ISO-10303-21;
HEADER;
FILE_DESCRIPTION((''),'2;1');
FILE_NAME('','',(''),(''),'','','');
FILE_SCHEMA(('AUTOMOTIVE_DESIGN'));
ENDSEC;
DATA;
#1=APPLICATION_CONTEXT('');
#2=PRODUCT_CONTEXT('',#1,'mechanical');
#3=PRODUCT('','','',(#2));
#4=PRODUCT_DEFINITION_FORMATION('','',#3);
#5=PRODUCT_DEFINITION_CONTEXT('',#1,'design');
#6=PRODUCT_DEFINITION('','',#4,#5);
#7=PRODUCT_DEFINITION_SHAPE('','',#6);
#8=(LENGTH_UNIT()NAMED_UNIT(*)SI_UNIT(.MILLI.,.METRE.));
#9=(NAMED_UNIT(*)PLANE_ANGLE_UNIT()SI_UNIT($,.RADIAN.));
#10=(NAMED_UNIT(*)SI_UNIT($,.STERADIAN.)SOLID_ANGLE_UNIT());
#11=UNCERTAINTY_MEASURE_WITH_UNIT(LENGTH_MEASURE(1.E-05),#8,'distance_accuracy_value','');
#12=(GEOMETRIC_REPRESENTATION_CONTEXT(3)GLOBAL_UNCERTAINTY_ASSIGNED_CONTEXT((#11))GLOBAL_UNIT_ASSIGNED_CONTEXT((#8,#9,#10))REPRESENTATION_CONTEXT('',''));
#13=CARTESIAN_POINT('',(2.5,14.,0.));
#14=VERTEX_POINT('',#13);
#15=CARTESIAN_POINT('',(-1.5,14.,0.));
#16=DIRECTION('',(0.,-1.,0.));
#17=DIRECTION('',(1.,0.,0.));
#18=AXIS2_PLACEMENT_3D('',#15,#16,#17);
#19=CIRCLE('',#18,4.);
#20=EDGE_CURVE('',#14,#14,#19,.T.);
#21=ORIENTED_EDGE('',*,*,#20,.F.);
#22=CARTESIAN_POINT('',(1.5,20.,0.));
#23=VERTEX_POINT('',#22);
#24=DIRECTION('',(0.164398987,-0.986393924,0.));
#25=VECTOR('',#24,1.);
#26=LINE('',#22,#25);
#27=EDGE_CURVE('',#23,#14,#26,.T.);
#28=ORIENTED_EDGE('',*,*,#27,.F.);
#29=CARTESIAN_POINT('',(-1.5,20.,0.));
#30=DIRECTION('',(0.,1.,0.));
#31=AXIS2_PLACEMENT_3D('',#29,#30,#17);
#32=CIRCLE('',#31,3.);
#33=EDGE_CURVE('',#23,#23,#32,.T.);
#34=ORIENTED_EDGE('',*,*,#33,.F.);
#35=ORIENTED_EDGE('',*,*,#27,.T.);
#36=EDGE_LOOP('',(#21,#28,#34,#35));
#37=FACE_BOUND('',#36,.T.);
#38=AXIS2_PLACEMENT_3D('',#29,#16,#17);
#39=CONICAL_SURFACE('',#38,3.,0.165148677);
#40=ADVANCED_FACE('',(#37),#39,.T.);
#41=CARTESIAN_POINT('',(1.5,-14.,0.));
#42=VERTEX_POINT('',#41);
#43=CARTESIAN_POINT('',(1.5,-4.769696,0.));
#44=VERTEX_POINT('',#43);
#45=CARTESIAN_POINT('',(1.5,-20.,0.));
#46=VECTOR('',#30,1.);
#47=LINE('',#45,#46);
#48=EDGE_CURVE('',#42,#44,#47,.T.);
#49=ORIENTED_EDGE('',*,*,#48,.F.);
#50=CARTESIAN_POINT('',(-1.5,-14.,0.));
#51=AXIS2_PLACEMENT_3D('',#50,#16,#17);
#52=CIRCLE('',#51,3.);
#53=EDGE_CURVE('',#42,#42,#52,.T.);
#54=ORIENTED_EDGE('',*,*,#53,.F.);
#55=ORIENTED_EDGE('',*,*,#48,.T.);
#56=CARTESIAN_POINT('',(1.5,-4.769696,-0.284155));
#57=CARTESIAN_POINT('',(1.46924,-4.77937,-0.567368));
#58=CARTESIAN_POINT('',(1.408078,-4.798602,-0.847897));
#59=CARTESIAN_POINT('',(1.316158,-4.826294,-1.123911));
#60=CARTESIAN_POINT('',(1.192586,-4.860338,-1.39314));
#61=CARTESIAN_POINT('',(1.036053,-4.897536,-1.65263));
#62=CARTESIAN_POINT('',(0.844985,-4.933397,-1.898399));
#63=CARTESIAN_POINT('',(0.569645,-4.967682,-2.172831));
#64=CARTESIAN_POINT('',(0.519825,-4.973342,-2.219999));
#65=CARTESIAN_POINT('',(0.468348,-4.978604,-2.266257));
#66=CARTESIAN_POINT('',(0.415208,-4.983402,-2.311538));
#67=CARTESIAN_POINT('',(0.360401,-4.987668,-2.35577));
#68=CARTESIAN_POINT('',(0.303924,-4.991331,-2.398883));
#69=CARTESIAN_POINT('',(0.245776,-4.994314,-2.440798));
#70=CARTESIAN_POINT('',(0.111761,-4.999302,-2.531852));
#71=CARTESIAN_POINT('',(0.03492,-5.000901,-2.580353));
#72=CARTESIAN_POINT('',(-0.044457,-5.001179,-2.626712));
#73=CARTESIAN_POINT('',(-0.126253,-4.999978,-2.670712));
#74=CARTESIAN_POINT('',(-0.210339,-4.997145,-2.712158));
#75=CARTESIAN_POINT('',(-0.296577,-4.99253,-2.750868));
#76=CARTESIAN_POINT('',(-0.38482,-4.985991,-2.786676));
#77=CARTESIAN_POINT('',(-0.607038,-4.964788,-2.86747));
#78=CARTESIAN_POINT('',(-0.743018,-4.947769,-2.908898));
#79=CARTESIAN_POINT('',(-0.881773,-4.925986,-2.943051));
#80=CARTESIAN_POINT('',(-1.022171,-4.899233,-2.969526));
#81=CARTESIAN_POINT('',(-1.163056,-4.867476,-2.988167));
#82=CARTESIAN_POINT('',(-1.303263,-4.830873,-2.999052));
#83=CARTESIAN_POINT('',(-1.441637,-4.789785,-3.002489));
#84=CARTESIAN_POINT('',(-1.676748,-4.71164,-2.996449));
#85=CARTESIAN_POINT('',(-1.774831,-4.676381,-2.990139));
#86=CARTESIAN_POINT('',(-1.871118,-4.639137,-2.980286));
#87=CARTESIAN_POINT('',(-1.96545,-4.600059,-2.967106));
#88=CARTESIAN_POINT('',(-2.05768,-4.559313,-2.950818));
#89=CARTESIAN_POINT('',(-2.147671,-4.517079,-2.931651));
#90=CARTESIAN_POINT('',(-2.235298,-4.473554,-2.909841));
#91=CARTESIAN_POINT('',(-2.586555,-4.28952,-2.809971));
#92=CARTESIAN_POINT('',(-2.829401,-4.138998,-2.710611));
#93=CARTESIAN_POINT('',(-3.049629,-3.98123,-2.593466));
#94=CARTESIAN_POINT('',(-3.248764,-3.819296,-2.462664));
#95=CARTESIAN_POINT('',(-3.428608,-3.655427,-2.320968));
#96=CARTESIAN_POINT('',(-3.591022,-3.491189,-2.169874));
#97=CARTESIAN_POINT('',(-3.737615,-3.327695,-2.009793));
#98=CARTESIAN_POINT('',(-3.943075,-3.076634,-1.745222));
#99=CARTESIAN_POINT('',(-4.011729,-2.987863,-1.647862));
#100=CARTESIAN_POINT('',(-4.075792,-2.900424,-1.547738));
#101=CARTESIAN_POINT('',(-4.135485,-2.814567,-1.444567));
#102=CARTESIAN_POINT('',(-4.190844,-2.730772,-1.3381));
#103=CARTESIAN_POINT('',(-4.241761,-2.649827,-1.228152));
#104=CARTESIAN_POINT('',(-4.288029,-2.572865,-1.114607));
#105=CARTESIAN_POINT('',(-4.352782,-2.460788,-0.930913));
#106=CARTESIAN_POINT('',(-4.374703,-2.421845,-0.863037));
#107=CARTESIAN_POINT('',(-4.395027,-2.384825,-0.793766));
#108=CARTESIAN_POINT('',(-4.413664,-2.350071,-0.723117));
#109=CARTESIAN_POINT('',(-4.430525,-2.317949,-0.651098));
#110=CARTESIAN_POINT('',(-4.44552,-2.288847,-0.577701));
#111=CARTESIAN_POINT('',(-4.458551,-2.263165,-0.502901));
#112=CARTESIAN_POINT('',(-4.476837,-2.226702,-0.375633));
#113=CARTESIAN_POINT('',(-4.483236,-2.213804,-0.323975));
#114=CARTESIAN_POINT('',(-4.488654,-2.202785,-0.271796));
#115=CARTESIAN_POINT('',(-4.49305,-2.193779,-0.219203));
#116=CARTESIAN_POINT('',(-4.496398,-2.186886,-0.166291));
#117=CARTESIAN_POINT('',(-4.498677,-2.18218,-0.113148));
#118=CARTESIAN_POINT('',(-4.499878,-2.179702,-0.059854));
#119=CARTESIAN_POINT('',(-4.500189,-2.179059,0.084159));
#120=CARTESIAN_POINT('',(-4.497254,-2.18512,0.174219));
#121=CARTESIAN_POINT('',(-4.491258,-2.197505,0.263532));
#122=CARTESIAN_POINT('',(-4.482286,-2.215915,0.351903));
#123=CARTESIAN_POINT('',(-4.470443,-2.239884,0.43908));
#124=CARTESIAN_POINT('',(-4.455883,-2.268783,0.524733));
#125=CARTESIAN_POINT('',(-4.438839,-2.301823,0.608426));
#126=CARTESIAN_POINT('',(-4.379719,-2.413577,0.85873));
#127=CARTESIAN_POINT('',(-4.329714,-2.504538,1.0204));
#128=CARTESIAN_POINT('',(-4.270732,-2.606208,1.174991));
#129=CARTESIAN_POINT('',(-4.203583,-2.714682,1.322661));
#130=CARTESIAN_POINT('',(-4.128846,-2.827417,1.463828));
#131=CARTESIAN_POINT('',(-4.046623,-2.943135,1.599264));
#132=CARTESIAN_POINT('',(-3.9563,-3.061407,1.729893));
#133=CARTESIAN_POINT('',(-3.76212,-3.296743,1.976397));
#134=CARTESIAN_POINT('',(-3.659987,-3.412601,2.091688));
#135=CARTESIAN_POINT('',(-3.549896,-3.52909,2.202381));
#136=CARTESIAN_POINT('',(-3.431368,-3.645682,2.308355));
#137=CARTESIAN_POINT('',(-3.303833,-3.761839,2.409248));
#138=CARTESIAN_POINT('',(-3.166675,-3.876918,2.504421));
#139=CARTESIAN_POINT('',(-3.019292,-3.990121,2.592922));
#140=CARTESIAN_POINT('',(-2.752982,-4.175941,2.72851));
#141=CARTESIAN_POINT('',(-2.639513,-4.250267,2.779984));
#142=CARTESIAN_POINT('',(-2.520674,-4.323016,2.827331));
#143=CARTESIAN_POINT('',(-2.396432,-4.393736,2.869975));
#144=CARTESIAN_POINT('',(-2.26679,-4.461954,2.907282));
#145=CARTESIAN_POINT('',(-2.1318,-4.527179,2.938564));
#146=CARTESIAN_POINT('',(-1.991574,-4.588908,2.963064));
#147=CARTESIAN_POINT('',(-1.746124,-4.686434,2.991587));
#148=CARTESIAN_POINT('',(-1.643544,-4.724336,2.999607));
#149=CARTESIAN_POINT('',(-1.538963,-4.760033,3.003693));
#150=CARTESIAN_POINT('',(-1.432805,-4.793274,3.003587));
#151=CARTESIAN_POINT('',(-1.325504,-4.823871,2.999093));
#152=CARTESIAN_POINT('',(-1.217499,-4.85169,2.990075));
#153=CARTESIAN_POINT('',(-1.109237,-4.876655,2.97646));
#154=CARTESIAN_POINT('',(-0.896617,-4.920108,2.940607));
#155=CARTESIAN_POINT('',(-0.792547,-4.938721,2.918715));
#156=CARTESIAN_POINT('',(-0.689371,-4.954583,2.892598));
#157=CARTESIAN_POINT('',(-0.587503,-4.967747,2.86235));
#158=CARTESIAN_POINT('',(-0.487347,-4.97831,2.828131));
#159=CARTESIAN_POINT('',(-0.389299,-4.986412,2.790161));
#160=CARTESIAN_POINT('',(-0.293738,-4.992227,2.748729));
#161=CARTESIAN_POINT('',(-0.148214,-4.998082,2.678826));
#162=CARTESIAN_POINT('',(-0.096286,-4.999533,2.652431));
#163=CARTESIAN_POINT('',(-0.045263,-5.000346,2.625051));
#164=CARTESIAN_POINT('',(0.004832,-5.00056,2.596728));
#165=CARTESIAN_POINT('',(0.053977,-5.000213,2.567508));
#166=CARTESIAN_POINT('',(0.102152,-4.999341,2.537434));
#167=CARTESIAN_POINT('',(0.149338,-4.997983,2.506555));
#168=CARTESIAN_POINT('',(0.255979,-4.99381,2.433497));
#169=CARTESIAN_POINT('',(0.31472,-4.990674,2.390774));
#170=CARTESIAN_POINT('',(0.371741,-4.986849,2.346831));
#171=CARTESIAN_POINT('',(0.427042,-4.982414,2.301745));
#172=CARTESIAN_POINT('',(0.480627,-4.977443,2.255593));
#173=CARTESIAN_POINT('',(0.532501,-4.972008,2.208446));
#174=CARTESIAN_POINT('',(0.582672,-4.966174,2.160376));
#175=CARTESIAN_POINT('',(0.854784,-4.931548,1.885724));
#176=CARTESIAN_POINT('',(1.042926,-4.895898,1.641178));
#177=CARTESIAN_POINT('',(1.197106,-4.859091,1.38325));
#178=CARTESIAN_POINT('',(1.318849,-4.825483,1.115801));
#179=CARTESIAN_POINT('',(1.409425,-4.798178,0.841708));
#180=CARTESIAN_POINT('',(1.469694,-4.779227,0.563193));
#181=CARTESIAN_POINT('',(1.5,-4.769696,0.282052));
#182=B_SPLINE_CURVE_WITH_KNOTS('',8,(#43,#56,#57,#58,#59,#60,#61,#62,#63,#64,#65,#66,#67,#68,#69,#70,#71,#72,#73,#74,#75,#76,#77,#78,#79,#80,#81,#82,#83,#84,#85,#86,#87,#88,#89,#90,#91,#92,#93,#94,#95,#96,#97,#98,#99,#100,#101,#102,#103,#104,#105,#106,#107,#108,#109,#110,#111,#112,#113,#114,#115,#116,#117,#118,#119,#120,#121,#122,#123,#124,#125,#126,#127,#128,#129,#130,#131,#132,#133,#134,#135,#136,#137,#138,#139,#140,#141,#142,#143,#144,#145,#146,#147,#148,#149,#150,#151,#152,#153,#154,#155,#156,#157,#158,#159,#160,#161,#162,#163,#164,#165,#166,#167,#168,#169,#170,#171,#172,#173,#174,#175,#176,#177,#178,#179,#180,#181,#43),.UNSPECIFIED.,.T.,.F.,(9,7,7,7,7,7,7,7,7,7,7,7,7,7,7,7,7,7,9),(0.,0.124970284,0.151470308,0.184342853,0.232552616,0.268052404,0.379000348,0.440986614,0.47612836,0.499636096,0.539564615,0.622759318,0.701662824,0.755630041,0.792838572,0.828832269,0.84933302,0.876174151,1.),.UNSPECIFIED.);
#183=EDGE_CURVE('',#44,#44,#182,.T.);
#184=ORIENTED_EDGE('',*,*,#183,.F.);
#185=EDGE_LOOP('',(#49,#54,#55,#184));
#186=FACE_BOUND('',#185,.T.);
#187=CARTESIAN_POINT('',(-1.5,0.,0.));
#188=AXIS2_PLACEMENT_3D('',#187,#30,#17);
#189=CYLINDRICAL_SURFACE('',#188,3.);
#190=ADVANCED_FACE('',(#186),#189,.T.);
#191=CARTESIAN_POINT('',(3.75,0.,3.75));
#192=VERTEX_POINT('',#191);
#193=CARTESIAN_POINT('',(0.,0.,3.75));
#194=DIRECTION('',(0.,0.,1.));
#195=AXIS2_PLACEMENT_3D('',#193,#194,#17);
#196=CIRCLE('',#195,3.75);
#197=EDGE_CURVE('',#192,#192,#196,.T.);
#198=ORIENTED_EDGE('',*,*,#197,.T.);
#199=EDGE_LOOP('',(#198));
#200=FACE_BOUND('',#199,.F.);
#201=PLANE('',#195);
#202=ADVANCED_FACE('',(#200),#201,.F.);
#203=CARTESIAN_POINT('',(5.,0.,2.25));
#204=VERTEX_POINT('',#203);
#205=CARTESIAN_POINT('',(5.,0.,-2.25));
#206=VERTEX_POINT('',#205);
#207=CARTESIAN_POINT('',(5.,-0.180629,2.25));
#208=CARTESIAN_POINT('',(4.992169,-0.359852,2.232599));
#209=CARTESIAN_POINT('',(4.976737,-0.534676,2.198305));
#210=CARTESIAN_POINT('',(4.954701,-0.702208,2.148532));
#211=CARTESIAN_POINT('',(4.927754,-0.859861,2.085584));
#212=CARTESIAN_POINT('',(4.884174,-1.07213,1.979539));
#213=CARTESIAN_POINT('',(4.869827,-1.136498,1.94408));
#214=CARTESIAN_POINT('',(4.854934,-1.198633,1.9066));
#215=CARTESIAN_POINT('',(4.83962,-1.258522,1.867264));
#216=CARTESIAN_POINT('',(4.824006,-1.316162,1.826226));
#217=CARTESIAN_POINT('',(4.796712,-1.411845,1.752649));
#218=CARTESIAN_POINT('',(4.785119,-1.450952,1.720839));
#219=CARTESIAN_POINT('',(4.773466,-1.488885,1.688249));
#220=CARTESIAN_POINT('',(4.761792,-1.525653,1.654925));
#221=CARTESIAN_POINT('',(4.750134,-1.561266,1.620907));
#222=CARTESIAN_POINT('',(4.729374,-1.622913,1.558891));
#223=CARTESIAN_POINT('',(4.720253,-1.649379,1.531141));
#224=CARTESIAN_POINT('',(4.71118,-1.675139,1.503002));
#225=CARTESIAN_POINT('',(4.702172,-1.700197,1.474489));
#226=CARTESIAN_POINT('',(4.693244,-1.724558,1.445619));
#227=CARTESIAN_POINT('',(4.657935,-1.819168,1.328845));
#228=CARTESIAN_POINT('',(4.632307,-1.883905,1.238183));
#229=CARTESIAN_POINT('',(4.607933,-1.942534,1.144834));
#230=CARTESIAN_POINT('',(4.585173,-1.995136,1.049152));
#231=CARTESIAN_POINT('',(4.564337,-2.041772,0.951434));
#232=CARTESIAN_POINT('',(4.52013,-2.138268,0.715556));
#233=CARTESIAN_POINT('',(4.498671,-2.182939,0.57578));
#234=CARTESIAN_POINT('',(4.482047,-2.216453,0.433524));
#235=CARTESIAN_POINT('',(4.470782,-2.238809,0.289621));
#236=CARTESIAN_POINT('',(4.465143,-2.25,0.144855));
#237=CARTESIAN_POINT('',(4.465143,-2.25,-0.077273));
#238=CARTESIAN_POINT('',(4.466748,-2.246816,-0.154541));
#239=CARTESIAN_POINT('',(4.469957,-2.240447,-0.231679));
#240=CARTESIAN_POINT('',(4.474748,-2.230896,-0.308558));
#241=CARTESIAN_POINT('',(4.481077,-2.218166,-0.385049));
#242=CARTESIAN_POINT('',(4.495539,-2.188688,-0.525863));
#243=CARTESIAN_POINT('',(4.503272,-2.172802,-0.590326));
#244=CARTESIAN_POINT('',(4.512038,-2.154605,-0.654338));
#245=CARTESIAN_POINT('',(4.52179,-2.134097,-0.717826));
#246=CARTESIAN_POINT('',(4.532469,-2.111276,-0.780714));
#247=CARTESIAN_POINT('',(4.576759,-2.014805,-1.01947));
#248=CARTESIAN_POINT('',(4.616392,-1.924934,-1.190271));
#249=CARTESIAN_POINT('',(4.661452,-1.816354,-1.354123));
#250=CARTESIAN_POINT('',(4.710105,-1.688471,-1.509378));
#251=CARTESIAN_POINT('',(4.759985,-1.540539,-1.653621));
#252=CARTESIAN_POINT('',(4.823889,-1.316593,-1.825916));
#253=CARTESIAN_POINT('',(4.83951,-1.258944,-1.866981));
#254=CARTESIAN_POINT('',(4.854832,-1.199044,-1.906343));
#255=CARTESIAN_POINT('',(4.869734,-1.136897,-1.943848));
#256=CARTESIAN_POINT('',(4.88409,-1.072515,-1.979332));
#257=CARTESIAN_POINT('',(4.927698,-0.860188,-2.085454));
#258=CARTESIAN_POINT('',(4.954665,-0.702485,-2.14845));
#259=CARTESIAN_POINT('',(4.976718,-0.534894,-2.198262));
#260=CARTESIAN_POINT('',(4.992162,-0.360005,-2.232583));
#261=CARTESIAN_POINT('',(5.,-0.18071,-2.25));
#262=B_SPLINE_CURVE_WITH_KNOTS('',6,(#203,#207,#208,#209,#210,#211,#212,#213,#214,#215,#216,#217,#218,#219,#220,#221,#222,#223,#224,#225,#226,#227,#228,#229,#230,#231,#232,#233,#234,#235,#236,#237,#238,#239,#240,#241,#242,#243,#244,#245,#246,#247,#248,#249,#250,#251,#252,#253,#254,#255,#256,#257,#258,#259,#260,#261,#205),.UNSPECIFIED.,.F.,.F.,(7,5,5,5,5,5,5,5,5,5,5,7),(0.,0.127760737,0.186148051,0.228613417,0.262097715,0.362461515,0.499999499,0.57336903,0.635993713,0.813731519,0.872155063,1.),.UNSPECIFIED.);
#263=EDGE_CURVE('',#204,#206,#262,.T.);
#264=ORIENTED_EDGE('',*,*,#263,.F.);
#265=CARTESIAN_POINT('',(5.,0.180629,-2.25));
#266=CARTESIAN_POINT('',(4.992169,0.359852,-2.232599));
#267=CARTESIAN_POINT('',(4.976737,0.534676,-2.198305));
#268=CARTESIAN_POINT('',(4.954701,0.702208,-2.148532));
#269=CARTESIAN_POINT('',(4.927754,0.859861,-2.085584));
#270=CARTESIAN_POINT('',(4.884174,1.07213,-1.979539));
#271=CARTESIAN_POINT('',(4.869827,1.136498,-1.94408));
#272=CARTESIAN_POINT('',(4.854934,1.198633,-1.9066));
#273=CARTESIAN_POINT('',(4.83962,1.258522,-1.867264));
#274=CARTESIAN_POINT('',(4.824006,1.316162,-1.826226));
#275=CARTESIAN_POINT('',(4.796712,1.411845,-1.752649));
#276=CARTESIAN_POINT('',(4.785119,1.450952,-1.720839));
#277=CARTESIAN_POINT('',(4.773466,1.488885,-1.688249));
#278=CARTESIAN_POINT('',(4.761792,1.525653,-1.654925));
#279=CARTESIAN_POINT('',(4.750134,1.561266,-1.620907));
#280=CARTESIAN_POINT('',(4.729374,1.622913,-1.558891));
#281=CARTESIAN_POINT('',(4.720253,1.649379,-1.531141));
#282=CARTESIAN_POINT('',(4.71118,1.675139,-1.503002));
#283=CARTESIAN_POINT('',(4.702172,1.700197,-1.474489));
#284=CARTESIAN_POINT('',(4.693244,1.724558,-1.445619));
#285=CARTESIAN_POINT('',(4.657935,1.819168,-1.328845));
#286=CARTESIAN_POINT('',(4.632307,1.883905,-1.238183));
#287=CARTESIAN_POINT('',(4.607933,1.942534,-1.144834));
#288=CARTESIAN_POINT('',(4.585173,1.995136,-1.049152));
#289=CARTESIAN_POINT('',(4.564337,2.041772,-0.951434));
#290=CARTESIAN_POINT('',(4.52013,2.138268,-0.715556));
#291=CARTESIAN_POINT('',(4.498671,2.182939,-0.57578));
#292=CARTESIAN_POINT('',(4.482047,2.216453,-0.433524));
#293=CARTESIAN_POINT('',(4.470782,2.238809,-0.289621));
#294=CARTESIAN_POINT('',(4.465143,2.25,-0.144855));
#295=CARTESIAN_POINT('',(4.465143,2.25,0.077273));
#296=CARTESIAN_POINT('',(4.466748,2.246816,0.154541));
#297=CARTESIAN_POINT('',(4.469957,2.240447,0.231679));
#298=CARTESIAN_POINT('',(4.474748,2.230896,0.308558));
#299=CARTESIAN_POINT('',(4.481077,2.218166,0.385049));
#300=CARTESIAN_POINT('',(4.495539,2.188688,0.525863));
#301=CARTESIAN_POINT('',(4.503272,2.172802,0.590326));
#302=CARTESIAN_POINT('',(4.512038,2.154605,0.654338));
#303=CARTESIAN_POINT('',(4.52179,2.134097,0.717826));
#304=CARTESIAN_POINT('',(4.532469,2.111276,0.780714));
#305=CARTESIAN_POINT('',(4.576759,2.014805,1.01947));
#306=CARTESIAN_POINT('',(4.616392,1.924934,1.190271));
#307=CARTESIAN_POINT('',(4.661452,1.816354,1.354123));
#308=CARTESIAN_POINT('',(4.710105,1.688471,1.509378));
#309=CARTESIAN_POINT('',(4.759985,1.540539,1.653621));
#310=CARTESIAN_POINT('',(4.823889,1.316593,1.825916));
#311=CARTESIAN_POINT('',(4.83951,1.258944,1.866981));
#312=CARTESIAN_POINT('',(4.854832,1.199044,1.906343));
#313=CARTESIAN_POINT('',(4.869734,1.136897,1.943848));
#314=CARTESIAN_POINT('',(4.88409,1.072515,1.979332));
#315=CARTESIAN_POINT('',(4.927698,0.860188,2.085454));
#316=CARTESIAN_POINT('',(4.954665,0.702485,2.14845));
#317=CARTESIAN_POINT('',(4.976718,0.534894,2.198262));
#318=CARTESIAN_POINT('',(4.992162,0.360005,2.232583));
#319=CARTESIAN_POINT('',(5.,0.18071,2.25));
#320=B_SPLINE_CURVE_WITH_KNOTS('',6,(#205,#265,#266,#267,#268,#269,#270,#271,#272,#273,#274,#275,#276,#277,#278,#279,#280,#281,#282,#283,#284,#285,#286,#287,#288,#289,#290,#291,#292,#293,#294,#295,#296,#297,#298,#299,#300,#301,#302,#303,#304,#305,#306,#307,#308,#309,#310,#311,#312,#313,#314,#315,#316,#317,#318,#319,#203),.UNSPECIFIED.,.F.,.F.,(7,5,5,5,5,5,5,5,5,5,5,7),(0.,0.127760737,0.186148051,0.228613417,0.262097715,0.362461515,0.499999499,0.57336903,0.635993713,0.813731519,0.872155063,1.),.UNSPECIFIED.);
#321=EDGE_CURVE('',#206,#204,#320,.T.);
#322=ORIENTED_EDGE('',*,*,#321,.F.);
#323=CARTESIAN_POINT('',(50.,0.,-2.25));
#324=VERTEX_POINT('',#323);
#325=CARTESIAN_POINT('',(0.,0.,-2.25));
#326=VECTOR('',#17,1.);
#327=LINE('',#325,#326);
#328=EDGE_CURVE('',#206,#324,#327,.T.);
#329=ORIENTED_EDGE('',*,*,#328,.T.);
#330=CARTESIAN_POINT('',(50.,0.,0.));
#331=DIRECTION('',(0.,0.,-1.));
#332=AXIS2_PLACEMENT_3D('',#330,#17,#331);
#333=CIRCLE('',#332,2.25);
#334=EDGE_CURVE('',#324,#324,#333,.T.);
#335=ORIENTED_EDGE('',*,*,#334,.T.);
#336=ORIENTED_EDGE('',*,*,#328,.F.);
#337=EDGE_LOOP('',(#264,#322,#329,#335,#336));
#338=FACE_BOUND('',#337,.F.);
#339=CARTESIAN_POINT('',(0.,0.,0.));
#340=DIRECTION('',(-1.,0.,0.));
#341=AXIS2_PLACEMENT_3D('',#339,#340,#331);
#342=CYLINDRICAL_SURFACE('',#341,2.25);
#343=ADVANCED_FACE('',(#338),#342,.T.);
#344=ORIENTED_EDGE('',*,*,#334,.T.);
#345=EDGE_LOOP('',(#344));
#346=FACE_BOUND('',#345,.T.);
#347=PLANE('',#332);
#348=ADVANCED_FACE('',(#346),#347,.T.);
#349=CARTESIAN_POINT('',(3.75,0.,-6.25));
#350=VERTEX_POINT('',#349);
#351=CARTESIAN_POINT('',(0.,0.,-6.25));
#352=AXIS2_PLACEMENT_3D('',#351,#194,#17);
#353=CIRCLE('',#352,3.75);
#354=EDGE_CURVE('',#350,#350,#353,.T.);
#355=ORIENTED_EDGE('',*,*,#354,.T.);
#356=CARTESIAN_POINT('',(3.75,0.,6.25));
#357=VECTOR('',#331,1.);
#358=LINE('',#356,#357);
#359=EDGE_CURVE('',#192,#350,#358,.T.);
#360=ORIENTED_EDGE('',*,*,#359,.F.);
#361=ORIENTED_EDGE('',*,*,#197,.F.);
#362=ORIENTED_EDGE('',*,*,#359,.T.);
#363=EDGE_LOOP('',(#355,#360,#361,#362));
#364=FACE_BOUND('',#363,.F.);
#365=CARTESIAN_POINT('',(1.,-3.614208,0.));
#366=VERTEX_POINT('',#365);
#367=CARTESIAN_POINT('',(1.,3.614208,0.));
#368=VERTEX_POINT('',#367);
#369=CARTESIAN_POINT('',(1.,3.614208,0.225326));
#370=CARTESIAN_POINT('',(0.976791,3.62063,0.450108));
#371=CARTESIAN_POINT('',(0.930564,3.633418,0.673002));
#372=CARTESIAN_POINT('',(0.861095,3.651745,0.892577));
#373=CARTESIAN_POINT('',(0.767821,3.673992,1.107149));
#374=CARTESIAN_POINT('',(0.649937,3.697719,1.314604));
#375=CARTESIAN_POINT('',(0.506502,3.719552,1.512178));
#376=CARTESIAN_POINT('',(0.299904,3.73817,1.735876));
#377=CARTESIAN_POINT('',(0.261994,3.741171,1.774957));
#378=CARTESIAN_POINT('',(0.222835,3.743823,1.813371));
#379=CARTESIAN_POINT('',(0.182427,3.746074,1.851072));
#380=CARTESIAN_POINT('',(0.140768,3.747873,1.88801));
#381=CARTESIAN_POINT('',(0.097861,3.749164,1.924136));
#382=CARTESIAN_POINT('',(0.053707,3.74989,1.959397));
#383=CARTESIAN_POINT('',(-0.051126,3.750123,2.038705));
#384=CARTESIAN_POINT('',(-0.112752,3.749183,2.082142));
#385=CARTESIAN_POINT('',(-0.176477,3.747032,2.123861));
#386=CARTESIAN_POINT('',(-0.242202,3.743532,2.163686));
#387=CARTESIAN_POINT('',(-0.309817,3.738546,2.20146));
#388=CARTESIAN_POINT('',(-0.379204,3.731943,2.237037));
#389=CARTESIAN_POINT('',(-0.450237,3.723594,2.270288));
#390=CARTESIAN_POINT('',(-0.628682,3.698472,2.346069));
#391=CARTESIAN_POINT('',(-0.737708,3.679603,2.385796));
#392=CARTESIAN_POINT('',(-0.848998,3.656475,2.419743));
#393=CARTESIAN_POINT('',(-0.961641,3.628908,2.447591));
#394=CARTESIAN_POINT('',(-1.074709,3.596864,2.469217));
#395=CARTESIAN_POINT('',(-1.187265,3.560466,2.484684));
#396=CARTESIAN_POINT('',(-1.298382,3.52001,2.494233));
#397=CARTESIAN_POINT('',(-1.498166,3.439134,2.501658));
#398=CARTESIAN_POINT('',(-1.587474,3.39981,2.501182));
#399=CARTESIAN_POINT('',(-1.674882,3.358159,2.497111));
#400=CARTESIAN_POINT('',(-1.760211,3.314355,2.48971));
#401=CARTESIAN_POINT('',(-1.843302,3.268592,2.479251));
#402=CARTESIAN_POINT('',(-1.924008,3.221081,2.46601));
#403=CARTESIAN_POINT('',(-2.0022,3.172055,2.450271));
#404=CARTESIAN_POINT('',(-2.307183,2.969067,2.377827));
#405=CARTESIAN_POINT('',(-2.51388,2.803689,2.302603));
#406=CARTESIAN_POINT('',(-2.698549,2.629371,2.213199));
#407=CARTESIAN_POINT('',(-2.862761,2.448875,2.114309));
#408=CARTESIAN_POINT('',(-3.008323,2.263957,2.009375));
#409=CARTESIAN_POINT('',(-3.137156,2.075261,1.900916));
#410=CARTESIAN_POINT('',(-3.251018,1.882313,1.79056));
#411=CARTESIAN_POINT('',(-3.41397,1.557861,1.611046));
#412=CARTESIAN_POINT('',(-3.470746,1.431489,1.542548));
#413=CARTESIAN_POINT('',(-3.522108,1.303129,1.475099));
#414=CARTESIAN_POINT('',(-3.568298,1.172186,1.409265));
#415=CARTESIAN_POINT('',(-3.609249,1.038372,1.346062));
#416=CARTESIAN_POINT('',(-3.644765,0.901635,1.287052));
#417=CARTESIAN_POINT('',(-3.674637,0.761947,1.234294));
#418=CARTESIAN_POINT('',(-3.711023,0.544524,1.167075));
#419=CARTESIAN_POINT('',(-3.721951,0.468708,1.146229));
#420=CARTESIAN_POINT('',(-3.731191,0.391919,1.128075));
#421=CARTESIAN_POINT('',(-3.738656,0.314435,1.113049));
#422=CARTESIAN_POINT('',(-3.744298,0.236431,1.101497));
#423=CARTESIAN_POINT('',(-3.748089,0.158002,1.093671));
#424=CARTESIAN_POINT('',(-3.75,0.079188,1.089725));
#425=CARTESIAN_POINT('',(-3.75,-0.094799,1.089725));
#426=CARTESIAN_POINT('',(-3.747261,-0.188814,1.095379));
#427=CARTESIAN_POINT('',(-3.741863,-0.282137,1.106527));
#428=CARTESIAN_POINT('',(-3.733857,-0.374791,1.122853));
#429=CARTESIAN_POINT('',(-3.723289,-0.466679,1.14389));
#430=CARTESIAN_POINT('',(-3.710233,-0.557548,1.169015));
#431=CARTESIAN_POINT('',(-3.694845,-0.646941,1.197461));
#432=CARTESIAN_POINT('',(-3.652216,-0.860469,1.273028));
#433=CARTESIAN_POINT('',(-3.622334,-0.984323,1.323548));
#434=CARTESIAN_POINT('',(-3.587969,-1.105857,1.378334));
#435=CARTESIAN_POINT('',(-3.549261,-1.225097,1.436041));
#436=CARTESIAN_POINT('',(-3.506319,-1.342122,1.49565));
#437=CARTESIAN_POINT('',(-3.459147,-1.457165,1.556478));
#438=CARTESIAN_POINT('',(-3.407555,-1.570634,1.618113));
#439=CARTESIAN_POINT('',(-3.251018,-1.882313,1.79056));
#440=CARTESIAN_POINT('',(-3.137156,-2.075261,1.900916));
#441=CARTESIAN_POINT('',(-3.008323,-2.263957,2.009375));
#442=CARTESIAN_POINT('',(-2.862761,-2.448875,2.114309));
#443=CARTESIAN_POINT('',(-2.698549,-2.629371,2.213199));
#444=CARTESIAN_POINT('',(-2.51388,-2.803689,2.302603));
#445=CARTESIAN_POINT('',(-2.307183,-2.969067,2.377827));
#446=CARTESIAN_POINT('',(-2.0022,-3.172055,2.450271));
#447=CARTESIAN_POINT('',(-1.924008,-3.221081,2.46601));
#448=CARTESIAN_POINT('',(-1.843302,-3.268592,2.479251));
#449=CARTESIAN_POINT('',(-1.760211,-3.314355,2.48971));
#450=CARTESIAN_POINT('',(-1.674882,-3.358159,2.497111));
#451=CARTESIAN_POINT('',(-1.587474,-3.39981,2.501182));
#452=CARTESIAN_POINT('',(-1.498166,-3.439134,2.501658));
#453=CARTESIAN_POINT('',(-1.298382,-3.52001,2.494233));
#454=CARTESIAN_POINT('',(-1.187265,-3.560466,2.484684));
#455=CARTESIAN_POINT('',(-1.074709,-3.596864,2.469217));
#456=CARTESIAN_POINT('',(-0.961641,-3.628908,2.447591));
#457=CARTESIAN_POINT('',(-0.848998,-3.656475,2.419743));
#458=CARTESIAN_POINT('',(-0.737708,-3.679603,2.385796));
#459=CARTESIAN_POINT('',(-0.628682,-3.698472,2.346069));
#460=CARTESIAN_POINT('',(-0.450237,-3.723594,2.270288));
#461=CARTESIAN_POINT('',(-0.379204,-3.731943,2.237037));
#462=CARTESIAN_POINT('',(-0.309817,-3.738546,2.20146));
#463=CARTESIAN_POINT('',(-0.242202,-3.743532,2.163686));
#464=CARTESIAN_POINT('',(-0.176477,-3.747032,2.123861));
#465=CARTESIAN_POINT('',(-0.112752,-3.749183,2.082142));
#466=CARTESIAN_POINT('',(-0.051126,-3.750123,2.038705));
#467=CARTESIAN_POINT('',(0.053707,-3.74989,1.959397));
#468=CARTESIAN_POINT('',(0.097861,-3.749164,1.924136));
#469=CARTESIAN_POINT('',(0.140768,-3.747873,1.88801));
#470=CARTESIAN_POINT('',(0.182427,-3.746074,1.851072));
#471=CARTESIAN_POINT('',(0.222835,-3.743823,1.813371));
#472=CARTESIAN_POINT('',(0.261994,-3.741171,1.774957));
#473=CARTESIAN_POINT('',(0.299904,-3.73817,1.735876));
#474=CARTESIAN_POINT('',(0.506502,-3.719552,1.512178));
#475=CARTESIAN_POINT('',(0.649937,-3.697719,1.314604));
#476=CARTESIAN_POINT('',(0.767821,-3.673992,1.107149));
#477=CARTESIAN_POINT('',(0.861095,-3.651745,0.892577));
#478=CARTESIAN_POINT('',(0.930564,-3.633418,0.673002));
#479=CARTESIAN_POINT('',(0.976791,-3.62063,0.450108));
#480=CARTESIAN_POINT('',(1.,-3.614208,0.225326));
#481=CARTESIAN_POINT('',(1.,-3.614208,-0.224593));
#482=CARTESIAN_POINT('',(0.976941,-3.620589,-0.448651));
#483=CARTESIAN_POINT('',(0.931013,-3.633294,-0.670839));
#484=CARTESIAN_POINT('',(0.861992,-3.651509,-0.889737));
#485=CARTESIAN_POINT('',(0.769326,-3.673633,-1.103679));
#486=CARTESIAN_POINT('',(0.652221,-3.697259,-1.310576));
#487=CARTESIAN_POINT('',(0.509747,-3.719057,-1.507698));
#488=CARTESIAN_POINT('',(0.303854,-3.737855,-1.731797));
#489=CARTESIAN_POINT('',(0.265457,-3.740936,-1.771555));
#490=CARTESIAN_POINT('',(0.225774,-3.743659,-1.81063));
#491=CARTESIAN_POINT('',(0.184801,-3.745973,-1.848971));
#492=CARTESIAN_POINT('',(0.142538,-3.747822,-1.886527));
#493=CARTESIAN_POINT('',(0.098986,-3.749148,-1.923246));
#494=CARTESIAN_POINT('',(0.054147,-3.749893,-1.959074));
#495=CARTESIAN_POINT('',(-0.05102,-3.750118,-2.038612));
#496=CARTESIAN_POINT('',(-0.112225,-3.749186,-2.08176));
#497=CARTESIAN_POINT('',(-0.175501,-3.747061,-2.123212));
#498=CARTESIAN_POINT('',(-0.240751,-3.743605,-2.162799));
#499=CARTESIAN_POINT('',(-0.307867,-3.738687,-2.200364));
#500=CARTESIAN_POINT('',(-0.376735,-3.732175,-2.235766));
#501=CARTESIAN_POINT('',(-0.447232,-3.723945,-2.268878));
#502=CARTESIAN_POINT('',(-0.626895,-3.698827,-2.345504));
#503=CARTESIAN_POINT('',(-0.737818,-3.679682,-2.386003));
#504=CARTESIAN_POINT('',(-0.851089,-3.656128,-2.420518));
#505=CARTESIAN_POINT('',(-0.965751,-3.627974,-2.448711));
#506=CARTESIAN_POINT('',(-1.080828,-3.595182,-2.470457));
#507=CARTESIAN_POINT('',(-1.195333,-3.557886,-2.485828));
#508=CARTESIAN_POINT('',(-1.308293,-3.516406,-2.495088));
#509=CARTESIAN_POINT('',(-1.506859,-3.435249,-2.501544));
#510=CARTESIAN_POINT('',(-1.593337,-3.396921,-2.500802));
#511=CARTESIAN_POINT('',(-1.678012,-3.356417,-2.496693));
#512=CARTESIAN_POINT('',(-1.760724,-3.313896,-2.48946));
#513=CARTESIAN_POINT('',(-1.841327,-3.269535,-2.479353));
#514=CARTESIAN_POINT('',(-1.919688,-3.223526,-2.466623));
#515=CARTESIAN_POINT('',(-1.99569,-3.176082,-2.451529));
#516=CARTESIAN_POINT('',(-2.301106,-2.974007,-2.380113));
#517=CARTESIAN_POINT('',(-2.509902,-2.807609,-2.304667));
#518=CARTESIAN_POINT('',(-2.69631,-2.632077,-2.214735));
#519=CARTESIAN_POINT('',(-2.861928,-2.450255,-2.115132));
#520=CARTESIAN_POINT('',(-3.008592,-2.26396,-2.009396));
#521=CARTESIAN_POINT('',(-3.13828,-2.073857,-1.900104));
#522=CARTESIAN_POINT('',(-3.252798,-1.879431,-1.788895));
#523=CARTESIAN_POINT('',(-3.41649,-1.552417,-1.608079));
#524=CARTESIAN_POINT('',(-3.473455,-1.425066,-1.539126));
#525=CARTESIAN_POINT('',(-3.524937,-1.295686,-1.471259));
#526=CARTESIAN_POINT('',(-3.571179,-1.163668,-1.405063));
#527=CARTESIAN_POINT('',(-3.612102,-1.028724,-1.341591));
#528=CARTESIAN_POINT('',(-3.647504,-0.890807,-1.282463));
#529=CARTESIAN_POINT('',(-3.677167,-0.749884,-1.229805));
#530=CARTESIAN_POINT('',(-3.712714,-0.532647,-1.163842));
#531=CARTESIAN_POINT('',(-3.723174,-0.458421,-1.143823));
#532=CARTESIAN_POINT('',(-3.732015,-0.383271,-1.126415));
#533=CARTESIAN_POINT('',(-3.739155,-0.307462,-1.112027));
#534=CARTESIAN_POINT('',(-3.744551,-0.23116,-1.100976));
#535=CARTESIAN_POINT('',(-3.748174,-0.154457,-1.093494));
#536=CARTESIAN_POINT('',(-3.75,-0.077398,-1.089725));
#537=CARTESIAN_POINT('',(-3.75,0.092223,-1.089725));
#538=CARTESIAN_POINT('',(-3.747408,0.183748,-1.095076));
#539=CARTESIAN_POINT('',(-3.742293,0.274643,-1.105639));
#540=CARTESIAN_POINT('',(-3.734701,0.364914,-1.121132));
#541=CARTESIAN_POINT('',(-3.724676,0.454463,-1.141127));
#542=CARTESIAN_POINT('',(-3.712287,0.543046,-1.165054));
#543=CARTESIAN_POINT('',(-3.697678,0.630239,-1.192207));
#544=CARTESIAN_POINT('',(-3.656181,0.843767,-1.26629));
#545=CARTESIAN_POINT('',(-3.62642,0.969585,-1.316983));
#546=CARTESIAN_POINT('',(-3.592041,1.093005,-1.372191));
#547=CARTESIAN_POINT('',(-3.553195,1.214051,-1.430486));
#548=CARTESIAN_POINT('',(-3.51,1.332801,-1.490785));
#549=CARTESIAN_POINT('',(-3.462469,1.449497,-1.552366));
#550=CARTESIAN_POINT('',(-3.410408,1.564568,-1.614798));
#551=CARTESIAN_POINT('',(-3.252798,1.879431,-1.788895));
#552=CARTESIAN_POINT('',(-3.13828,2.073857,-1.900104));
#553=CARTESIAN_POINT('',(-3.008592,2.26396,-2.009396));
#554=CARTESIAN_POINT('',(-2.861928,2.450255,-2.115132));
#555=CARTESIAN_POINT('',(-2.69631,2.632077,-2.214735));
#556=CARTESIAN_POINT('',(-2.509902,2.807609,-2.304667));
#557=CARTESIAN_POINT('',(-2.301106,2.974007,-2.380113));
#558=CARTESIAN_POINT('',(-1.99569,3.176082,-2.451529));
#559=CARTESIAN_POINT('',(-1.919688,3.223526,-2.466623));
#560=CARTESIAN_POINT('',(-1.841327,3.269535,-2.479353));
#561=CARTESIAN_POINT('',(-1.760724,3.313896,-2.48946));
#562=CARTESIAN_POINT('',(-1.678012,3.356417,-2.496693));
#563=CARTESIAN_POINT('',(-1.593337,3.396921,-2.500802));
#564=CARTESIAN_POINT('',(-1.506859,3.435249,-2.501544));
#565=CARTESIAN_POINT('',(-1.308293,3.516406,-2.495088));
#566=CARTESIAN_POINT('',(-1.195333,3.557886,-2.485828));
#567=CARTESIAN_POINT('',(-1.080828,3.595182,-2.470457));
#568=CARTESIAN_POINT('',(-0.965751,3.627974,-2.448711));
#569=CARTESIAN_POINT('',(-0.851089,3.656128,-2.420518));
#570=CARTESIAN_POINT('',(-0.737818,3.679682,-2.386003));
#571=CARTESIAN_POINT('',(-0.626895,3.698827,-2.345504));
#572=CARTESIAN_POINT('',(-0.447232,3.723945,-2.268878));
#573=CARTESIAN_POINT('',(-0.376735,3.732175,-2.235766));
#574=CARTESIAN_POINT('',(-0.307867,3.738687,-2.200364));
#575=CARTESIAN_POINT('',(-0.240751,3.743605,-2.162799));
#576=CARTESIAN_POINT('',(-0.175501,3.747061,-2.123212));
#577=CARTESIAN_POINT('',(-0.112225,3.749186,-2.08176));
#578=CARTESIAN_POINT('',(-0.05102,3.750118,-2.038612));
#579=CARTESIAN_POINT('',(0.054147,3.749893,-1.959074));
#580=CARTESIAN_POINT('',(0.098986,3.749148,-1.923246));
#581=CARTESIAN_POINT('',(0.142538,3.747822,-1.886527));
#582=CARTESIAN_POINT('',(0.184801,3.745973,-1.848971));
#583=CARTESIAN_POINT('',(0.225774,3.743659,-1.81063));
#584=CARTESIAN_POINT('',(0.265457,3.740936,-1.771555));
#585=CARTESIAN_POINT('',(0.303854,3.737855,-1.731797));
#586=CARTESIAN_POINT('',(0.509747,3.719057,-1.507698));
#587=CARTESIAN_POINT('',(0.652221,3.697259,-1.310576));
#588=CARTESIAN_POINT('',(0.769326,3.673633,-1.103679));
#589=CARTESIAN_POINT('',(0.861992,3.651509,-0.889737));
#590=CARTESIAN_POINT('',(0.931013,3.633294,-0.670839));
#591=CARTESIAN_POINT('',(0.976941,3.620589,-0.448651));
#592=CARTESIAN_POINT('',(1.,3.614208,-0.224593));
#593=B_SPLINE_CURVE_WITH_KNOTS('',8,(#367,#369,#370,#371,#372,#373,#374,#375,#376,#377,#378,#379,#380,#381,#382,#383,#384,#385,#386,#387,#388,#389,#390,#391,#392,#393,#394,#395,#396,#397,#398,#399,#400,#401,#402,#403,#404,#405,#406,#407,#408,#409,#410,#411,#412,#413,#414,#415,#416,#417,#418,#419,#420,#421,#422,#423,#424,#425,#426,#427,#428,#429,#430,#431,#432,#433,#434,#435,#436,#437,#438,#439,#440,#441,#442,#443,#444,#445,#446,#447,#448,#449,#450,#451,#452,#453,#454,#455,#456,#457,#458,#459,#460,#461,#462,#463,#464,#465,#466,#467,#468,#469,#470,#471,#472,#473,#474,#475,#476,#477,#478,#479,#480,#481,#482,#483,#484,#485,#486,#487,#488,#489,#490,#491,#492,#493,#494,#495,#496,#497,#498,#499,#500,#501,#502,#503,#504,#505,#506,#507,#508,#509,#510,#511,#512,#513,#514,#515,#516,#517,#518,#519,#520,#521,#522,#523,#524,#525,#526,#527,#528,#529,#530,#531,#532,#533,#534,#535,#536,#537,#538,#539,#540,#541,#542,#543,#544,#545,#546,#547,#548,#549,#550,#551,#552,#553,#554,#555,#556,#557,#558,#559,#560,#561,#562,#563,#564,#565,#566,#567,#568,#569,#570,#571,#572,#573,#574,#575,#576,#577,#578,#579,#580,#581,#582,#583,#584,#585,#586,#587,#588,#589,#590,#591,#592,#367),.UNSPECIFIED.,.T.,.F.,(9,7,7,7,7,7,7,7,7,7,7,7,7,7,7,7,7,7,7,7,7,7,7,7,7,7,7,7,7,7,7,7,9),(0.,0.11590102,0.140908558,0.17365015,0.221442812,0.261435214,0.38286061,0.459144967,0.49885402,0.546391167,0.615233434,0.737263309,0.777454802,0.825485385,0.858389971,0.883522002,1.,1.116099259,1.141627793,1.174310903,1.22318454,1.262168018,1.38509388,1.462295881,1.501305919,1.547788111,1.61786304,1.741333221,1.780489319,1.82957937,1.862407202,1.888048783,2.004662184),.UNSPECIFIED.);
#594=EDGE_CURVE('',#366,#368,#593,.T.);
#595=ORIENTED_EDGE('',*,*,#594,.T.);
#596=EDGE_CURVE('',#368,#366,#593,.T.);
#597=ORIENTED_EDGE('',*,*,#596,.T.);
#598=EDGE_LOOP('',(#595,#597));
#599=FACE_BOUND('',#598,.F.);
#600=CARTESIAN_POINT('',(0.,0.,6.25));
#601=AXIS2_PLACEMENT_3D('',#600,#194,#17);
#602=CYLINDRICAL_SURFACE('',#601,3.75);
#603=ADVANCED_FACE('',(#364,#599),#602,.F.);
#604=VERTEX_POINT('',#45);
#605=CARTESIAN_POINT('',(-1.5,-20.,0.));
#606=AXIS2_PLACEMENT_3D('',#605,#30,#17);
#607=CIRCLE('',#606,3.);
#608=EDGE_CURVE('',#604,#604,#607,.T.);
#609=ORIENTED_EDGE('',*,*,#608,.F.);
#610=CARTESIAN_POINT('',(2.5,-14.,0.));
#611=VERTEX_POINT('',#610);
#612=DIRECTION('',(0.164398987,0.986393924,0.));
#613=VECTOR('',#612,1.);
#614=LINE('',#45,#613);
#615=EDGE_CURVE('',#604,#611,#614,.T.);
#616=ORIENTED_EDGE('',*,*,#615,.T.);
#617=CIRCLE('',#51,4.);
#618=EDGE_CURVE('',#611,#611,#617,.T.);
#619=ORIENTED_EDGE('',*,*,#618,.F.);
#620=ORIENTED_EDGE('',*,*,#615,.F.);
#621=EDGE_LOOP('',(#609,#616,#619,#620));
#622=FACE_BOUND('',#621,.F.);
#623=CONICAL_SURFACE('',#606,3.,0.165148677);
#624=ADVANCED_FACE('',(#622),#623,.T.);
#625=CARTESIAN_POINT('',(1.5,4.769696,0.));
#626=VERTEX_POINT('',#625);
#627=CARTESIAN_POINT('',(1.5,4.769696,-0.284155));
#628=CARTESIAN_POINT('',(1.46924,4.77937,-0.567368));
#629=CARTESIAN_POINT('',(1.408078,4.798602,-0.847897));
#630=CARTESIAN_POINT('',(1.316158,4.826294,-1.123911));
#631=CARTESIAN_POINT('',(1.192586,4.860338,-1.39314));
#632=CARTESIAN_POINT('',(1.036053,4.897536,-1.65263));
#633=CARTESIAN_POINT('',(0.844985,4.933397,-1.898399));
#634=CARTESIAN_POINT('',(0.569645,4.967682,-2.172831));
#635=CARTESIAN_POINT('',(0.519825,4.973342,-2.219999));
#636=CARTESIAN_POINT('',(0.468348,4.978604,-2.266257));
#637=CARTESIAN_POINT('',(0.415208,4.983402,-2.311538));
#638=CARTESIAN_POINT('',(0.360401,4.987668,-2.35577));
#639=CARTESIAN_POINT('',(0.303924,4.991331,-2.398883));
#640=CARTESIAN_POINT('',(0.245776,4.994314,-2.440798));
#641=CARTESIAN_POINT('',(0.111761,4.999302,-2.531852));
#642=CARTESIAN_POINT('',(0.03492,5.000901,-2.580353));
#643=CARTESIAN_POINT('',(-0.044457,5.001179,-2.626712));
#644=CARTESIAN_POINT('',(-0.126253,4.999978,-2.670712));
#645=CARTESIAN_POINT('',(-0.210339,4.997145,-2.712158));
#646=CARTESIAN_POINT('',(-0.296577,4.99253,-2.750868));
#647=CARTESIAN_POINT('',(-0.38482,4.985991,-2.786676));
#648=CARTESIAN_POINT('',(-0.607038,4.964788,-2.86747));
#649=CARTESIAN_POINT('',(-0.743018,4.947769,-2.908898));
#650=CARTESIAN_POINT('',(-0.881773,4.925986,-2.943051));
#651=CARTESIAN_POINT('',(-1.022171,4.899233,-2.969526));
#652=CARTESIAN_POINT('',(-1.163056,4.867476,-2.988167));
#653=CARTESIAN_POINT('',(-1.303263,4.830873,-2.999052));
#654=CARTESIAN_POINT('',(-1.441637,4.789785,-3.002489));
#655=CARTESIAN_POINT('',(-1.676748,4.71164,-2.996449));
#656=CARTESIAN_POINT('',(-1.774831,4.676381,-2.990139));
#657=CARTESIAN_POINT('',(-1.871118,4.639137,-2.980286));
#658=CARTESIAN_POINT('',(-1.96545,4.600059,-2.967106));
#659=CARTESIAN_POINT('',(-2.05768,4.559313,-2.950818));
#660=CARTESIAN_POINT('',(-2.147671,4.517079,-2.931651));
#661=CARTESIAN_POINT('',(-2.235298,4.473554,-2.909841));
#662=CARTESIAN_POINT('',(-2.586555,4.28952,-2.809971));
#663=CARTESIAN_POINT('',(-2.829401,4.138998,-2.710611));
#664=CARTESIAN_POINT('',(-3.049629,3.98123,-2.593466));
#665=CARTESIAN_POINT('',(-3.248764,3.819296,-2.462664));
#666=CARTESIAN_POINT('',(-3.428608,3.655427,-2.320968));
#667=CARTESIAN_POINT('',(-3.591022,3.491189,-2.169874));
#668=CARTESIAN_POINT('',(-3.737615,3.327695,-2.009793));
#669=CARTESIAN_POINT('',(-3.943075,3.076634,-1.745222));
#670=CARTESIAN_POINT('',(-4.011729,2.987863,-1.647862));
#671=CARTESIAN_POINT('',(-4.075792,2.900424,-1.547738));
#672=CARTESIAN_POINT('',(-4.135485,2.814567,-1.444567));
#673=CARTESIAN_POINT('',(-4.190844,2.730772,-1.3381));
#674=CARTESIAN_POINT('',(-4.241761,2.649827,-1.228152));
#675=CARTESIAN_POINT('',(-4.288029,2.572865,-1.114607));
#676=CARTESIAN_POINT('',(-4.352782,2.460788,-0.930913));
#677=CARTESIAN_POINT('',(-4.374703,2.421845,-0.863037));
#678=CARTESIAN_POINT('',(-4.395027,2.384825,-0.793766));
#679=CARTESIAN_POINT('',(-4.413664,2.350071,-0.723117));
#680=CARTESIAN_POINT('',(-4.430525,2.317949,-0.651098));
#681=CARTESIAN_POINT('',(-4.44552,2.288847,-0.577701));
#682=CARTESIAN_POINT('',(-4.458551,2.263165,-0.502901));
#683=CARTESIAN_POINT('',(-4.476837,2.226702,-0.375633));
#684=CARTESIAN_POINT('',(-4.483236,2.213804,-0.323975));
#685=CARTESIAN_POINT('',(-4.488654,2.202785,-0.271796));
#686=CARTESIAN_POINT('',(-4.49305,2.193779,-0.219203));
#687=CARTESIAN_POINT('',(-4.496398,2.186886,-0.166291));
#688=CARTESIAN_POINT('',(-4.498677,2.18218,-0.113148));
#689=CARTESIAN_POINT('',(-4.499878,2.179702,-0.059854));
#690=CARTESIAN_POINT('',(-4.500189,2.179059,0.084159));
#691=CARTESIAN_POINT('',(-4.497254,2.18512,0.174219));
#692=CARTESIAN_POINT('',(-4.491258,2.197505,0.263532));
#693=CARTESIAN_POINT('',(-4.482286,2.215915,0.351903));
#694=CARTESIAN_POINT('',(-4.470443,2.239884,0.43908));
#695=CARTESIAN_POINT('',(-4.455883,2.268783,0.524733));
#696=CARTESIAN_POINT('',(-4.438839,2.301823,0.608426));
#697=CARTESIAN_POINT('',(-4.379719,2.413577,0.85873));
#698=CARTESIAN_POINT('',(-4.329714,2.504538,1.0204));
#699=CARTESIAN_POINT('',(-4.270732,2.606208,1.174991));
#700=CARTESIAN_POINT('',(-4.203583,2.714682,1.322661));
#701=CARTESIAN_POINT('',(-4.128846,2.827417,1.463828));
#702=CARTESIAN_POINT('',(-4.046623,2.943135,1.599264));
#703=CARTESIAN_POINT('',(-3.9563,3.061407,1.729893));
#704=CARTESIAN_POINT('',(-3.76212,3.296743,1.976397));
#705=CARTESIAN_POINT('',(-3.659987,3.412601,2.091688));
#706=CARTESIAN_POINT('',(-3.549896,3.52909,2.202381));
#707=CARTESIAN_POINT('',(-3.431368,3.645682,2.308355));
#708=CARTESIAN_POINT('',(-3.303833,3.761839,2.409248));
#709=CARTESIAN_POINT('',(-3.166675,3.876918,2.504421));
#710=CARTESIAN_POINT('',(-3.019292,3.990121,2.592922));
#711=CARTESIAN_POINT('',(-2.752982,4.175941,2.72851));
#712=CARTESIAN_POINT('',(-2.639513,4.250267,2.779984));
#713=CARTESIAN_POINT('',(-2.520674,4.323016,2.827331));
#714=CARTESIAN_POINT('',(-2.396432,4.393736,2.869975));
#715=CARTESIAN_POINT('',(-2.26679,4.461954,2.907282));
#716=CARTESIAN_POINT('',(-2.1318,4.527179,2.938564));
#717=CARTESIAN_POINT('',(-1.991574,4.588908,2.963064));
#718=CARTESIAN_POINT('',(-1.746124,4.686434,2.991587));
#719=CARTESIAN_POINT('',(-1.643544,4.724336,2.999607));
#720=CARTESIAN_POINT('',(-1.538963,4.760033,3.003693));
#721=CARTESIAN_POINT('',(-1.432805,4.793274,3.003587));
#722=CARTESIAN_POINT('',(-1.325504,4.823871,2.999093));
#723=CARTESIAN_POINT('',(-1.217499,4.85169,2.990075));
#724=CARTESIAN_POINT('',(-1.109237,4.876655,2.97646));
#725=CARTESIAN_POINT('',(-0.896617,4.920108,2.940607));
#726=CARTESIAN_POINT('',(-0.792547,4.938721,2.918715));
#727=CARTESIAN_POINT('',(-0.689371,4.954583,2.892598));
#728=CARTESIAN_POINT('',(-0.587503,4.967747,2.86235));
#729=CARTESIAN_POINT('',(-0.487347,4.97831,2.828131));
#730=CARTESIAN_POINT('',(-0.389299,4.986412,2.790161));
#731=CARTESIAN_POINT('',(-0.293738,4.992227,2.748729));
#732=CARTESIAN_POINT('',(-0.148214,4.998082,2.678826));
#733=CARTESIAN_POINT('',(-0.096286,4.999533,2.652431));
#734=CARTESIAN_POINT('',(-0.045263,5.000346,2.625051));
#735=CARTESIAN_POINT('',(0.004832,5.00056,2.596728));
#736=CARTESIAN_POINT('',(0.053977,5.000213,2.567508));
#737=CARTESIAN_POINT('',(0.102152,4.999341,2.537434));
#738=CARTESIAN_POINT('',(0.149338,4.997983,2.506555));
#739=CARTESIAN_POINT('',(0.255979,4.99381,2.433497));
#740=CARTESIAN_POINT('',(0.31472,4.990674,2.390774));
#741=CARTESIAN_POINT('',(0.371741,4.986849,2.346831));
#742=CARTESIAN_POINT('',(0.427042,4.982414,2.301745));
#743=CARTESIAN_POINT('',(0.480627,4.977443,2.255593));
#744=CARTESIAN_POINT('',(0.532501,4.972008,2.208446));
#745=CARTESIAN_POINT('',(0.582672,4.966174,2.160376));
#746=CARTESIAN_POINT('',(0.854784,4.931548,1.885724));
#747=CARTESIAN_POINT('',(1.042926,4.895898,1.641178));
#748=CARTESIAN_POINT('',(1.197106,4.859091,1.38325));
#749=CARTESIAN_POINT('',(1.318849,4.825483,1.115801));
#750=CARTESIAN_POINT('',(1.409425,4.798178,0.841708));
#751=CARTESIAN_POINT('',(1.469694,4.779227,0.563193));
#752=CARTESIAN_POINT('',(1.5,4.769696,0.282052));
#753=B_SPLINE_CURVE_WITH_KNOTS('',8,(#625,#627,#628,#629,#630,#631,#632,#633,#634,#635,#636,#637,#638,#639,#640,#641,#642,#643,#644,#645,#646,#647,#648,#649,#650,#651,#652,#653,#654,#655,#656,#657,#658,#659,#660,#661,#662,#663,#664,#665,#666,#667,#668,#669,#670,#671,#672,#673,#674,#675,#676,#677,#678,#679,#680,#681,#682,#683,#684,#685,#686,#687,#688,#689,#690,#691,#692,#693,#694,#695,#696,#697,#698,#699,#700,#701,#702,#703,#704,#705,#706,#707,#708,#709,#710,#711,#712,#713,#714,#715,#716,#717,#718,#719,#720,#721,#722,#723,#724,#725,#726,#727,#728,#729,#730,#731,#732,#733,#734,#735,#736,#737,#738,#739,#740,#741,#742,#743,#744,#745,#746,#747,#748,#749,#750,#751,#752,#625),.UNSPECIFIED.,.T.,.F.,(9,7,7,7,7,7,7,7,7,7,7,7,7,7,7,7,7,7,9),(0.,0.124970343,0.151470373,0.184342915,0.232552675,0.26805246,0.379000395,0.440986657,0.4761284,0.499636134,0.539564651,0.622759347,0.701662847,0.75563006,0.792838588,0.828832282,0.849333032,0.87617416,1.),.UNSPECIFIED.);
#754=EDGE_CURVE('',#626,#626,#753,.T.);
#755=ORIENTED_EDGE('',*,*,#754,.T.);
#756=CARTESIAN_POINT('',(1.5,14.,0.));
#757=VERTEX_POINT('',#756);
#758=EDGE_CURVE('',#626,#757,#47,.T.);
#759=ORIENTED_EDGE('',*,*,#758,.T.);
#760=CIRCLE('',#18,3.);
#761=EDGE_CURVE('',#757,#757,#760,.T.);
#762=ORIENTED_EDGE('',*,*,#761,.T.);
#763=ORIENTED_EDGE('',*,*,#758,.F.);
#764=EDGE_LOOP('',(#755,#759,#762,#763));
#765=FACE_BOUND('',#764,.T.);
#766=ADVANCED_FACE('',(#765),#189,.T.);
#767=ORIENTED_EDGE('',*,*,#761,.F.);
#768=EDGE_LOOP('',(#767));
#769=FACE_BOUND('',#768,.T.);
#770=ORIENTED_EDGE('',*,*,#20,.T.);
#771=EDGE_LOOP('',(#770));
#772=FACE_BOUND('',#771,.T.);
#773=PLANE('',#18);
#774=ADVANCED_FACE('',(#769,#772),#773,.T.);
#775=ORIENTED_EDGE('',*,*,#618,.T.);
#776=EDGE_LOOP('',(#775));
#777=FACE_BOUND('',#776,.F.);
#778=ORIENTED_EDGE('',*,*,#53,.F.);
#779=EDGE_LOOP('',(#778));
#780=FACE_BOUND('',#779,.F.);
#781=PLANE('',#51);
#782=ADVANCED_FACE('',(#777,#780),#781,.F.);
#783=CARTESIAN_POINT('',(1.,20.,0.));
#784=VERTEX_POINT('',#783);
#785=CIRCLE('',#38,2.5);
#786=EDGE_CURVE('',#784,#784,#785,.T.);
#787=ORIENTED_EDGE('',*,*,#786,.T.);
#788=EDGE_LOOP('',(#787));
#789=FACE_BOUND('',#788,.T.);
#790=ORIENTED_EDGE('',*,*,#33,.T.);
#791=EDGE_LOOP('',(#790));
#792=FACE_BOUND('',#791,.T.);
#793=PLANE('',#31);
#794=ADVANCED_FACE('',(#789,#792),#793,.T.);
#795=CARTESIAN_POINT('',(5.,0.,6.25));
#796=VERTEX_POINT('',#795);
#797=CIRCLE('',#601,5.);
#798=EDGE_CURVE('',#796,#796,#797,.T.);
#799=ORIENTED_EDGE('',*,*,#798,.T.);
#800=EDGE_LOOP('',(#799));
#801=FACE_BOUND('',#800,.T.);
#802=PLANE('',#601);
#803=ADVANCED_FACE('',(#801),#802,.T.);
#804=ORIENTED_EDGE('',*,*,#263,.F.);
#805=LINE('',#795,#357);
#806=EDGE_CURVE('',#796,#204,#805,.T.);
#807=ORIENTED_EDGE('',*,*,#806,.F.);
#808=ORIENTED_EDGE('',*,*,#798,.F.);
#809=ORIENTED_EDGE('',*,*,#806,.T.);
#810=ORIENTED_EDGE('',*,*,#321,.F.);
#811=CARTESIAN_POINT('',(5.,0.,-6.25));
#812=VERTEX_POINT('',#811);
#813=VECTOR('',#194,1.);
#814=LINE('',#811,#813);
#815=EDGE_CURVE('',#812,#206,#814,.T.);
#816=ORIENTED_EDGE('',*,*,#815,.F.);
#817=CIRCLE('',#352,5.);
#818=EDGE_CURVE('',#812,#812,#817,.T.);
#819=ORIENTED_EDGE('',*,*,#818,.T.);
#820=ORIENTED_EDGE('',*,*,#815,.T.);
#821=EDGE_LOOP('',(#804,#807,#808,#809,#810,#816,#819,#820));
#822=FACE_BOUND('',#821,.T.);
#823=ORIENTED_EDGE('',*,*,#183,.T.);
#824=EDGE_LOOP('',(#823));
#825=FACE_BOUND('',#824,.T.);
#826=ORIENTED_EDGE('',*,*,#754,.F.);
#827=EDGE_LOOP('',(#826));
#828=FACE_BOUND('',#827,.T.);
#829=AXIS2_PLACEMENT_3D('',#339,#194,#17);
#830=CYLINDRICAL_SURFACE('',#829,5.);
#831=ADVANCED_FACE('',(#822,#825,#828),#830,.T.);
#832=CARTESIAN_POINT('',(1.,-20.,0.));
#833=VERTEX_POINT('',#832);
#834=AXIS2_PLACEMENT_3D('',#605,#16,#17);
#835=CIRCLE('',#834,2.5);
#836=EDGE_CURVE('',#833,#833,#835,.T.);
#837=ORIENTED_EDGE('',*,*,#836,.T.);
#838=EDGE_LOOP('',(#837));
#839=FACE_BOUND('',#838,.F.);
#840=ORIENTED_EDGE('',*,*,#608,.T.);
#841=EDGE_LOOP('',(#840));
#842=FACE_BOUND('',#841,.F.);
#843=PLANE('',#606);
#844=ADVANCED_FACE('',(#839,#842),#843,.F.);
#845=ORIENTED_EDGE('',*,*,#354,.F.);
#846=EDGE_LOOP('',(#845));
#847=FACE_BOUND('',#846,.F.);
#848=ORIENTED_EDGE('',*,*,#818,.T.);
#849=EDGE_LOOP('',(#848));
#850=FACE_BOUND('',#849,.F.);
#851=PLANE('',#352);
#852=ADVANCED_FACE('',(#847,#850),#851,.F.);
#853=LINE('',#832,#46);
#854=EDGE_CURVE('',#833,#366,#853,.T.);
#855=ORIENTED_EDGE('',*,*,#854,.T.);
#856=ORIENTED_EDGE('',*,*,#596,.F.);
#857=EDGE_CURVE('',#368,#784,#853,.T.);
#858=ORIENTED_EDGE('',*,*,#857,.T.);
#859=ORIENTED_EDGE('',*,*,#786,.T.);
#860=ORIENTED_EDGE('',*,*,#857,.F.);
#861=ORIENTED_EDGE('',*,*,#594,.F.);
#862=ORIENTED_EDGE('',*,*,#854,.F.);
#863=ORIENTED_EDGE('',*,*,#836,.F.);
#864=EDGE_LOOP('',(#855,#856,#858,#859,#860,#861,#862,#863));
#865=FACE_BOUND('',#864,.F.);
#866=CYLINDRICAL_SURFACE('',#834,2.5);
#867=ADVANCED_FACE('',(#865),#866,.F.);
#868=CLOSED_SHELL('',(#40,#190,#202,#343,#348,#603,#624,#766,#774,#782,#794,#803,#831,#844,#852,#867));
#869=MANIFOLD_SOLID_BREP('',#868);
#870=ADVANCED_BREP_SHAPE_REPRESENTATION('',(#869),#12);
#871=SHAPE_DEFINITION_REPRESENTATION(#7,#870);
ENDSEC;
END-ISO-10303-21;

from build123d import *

# Parameters (mm, degrees)
SKETCH1_R           = 5
BOSS_EXTRUDE1_DEPTH = 6.25
SKETCH2_R           = 3
BOSS_EXTRUDE2_DEPTH = 20
SKETCH3_R           = 2.25
BOSS_EXTRUDE3_DEPTH = 50
SKETCH4_R           = 2.5
CUT_EXTRUDE1_DEPTH  = 40
CUT_EXTRUDE2_REACH  = 14.5
SKETCH5_R           = 3.75
SKETCH7_R           = 5
BOSS_EXTRUDE4_DEPTH = 2.5


with BuildPart() as part:
    # Sketch1 → Boss-Extrude1 (new body, symmetric)
    with BuildSketch(Plane.XY):
        Circle(SKETCH1_R)
    extrude(amount=BOSS_EXTRUDE1_DEPTH, both=True)

    # Sketch2 → Boss-Extrude2 (add, symmetric)
    with BuildSketch(Plane(origin=(0, 0, 0), x_dir=(1, 0, 0), z_dir=(0, 1, 0))):
        with Locations((-1.5, 0)):
            Circle(SKETCH2_R)
    extrude(amount=BOSS_EXTRUDE2_DEPTH, both=True)

    # Sketch3 → Boss-Extrude3 (add)
    with BuildSketch(Plane(origin=(0, 0, 0), x_dir=(0, 0, -1), z_dir=(1, 0, 0))):
        Circle(SKETCH3_R)
    extrude(amount=BOSS_EXTRUDE3_DEPTH)

    # Sketch4 → Cut-Extrude1 (cut)
    with BuildSketch(Plane.XZ.offset(20)):
        with Locations((-1.5, 0)):
            Circle(SKETCH4_R)
    extrude(amount=-CUT_EXTRUDE1_DEPTH, mode=Mode.SUBTRACT)

    # Sketch5 → Cut-Extrude2 (cut, up to next)
    with BuildSketch(Plane.XY.offset(6.25), mode=Mode.PRIVATE) as cut_extrude2_sk1:
        Circle(SKETCH5_R)
    cut_extrude2_tool1 = extrude(cut_extrude2_sk1.sketch, amount=-CUT_EXTRUDE2_REACH, mode=Mode.PRIVATE) & part.part
    add(cut_extrude2_tool1.solids().sort_by_distance((0, 0, 6.25))[0], mode=Mode.SUBTRACT)

    # Sketch7 → Boss-Extrude4 (add)
    with BuildSketch(Plane.XY.offset(6.25)):
        Circle(SKETCH7_R)
    extrude(amount=-BOSS_EXTRUDE4_DEPTH)

    # Sketch6 → Revolve1 (revolve)
    with BuildSketch(Plane.XY):
        Polygon((1.5, 14), (1.5, 20), (2.5, 14), align=None)
        Polygon((1.5, -20), (2.5, -14), (1.5, -14), align=None)
    revolve(axis=Axis((-1.5, 20, 0), (0, -1, 0)))


solid = part.part
